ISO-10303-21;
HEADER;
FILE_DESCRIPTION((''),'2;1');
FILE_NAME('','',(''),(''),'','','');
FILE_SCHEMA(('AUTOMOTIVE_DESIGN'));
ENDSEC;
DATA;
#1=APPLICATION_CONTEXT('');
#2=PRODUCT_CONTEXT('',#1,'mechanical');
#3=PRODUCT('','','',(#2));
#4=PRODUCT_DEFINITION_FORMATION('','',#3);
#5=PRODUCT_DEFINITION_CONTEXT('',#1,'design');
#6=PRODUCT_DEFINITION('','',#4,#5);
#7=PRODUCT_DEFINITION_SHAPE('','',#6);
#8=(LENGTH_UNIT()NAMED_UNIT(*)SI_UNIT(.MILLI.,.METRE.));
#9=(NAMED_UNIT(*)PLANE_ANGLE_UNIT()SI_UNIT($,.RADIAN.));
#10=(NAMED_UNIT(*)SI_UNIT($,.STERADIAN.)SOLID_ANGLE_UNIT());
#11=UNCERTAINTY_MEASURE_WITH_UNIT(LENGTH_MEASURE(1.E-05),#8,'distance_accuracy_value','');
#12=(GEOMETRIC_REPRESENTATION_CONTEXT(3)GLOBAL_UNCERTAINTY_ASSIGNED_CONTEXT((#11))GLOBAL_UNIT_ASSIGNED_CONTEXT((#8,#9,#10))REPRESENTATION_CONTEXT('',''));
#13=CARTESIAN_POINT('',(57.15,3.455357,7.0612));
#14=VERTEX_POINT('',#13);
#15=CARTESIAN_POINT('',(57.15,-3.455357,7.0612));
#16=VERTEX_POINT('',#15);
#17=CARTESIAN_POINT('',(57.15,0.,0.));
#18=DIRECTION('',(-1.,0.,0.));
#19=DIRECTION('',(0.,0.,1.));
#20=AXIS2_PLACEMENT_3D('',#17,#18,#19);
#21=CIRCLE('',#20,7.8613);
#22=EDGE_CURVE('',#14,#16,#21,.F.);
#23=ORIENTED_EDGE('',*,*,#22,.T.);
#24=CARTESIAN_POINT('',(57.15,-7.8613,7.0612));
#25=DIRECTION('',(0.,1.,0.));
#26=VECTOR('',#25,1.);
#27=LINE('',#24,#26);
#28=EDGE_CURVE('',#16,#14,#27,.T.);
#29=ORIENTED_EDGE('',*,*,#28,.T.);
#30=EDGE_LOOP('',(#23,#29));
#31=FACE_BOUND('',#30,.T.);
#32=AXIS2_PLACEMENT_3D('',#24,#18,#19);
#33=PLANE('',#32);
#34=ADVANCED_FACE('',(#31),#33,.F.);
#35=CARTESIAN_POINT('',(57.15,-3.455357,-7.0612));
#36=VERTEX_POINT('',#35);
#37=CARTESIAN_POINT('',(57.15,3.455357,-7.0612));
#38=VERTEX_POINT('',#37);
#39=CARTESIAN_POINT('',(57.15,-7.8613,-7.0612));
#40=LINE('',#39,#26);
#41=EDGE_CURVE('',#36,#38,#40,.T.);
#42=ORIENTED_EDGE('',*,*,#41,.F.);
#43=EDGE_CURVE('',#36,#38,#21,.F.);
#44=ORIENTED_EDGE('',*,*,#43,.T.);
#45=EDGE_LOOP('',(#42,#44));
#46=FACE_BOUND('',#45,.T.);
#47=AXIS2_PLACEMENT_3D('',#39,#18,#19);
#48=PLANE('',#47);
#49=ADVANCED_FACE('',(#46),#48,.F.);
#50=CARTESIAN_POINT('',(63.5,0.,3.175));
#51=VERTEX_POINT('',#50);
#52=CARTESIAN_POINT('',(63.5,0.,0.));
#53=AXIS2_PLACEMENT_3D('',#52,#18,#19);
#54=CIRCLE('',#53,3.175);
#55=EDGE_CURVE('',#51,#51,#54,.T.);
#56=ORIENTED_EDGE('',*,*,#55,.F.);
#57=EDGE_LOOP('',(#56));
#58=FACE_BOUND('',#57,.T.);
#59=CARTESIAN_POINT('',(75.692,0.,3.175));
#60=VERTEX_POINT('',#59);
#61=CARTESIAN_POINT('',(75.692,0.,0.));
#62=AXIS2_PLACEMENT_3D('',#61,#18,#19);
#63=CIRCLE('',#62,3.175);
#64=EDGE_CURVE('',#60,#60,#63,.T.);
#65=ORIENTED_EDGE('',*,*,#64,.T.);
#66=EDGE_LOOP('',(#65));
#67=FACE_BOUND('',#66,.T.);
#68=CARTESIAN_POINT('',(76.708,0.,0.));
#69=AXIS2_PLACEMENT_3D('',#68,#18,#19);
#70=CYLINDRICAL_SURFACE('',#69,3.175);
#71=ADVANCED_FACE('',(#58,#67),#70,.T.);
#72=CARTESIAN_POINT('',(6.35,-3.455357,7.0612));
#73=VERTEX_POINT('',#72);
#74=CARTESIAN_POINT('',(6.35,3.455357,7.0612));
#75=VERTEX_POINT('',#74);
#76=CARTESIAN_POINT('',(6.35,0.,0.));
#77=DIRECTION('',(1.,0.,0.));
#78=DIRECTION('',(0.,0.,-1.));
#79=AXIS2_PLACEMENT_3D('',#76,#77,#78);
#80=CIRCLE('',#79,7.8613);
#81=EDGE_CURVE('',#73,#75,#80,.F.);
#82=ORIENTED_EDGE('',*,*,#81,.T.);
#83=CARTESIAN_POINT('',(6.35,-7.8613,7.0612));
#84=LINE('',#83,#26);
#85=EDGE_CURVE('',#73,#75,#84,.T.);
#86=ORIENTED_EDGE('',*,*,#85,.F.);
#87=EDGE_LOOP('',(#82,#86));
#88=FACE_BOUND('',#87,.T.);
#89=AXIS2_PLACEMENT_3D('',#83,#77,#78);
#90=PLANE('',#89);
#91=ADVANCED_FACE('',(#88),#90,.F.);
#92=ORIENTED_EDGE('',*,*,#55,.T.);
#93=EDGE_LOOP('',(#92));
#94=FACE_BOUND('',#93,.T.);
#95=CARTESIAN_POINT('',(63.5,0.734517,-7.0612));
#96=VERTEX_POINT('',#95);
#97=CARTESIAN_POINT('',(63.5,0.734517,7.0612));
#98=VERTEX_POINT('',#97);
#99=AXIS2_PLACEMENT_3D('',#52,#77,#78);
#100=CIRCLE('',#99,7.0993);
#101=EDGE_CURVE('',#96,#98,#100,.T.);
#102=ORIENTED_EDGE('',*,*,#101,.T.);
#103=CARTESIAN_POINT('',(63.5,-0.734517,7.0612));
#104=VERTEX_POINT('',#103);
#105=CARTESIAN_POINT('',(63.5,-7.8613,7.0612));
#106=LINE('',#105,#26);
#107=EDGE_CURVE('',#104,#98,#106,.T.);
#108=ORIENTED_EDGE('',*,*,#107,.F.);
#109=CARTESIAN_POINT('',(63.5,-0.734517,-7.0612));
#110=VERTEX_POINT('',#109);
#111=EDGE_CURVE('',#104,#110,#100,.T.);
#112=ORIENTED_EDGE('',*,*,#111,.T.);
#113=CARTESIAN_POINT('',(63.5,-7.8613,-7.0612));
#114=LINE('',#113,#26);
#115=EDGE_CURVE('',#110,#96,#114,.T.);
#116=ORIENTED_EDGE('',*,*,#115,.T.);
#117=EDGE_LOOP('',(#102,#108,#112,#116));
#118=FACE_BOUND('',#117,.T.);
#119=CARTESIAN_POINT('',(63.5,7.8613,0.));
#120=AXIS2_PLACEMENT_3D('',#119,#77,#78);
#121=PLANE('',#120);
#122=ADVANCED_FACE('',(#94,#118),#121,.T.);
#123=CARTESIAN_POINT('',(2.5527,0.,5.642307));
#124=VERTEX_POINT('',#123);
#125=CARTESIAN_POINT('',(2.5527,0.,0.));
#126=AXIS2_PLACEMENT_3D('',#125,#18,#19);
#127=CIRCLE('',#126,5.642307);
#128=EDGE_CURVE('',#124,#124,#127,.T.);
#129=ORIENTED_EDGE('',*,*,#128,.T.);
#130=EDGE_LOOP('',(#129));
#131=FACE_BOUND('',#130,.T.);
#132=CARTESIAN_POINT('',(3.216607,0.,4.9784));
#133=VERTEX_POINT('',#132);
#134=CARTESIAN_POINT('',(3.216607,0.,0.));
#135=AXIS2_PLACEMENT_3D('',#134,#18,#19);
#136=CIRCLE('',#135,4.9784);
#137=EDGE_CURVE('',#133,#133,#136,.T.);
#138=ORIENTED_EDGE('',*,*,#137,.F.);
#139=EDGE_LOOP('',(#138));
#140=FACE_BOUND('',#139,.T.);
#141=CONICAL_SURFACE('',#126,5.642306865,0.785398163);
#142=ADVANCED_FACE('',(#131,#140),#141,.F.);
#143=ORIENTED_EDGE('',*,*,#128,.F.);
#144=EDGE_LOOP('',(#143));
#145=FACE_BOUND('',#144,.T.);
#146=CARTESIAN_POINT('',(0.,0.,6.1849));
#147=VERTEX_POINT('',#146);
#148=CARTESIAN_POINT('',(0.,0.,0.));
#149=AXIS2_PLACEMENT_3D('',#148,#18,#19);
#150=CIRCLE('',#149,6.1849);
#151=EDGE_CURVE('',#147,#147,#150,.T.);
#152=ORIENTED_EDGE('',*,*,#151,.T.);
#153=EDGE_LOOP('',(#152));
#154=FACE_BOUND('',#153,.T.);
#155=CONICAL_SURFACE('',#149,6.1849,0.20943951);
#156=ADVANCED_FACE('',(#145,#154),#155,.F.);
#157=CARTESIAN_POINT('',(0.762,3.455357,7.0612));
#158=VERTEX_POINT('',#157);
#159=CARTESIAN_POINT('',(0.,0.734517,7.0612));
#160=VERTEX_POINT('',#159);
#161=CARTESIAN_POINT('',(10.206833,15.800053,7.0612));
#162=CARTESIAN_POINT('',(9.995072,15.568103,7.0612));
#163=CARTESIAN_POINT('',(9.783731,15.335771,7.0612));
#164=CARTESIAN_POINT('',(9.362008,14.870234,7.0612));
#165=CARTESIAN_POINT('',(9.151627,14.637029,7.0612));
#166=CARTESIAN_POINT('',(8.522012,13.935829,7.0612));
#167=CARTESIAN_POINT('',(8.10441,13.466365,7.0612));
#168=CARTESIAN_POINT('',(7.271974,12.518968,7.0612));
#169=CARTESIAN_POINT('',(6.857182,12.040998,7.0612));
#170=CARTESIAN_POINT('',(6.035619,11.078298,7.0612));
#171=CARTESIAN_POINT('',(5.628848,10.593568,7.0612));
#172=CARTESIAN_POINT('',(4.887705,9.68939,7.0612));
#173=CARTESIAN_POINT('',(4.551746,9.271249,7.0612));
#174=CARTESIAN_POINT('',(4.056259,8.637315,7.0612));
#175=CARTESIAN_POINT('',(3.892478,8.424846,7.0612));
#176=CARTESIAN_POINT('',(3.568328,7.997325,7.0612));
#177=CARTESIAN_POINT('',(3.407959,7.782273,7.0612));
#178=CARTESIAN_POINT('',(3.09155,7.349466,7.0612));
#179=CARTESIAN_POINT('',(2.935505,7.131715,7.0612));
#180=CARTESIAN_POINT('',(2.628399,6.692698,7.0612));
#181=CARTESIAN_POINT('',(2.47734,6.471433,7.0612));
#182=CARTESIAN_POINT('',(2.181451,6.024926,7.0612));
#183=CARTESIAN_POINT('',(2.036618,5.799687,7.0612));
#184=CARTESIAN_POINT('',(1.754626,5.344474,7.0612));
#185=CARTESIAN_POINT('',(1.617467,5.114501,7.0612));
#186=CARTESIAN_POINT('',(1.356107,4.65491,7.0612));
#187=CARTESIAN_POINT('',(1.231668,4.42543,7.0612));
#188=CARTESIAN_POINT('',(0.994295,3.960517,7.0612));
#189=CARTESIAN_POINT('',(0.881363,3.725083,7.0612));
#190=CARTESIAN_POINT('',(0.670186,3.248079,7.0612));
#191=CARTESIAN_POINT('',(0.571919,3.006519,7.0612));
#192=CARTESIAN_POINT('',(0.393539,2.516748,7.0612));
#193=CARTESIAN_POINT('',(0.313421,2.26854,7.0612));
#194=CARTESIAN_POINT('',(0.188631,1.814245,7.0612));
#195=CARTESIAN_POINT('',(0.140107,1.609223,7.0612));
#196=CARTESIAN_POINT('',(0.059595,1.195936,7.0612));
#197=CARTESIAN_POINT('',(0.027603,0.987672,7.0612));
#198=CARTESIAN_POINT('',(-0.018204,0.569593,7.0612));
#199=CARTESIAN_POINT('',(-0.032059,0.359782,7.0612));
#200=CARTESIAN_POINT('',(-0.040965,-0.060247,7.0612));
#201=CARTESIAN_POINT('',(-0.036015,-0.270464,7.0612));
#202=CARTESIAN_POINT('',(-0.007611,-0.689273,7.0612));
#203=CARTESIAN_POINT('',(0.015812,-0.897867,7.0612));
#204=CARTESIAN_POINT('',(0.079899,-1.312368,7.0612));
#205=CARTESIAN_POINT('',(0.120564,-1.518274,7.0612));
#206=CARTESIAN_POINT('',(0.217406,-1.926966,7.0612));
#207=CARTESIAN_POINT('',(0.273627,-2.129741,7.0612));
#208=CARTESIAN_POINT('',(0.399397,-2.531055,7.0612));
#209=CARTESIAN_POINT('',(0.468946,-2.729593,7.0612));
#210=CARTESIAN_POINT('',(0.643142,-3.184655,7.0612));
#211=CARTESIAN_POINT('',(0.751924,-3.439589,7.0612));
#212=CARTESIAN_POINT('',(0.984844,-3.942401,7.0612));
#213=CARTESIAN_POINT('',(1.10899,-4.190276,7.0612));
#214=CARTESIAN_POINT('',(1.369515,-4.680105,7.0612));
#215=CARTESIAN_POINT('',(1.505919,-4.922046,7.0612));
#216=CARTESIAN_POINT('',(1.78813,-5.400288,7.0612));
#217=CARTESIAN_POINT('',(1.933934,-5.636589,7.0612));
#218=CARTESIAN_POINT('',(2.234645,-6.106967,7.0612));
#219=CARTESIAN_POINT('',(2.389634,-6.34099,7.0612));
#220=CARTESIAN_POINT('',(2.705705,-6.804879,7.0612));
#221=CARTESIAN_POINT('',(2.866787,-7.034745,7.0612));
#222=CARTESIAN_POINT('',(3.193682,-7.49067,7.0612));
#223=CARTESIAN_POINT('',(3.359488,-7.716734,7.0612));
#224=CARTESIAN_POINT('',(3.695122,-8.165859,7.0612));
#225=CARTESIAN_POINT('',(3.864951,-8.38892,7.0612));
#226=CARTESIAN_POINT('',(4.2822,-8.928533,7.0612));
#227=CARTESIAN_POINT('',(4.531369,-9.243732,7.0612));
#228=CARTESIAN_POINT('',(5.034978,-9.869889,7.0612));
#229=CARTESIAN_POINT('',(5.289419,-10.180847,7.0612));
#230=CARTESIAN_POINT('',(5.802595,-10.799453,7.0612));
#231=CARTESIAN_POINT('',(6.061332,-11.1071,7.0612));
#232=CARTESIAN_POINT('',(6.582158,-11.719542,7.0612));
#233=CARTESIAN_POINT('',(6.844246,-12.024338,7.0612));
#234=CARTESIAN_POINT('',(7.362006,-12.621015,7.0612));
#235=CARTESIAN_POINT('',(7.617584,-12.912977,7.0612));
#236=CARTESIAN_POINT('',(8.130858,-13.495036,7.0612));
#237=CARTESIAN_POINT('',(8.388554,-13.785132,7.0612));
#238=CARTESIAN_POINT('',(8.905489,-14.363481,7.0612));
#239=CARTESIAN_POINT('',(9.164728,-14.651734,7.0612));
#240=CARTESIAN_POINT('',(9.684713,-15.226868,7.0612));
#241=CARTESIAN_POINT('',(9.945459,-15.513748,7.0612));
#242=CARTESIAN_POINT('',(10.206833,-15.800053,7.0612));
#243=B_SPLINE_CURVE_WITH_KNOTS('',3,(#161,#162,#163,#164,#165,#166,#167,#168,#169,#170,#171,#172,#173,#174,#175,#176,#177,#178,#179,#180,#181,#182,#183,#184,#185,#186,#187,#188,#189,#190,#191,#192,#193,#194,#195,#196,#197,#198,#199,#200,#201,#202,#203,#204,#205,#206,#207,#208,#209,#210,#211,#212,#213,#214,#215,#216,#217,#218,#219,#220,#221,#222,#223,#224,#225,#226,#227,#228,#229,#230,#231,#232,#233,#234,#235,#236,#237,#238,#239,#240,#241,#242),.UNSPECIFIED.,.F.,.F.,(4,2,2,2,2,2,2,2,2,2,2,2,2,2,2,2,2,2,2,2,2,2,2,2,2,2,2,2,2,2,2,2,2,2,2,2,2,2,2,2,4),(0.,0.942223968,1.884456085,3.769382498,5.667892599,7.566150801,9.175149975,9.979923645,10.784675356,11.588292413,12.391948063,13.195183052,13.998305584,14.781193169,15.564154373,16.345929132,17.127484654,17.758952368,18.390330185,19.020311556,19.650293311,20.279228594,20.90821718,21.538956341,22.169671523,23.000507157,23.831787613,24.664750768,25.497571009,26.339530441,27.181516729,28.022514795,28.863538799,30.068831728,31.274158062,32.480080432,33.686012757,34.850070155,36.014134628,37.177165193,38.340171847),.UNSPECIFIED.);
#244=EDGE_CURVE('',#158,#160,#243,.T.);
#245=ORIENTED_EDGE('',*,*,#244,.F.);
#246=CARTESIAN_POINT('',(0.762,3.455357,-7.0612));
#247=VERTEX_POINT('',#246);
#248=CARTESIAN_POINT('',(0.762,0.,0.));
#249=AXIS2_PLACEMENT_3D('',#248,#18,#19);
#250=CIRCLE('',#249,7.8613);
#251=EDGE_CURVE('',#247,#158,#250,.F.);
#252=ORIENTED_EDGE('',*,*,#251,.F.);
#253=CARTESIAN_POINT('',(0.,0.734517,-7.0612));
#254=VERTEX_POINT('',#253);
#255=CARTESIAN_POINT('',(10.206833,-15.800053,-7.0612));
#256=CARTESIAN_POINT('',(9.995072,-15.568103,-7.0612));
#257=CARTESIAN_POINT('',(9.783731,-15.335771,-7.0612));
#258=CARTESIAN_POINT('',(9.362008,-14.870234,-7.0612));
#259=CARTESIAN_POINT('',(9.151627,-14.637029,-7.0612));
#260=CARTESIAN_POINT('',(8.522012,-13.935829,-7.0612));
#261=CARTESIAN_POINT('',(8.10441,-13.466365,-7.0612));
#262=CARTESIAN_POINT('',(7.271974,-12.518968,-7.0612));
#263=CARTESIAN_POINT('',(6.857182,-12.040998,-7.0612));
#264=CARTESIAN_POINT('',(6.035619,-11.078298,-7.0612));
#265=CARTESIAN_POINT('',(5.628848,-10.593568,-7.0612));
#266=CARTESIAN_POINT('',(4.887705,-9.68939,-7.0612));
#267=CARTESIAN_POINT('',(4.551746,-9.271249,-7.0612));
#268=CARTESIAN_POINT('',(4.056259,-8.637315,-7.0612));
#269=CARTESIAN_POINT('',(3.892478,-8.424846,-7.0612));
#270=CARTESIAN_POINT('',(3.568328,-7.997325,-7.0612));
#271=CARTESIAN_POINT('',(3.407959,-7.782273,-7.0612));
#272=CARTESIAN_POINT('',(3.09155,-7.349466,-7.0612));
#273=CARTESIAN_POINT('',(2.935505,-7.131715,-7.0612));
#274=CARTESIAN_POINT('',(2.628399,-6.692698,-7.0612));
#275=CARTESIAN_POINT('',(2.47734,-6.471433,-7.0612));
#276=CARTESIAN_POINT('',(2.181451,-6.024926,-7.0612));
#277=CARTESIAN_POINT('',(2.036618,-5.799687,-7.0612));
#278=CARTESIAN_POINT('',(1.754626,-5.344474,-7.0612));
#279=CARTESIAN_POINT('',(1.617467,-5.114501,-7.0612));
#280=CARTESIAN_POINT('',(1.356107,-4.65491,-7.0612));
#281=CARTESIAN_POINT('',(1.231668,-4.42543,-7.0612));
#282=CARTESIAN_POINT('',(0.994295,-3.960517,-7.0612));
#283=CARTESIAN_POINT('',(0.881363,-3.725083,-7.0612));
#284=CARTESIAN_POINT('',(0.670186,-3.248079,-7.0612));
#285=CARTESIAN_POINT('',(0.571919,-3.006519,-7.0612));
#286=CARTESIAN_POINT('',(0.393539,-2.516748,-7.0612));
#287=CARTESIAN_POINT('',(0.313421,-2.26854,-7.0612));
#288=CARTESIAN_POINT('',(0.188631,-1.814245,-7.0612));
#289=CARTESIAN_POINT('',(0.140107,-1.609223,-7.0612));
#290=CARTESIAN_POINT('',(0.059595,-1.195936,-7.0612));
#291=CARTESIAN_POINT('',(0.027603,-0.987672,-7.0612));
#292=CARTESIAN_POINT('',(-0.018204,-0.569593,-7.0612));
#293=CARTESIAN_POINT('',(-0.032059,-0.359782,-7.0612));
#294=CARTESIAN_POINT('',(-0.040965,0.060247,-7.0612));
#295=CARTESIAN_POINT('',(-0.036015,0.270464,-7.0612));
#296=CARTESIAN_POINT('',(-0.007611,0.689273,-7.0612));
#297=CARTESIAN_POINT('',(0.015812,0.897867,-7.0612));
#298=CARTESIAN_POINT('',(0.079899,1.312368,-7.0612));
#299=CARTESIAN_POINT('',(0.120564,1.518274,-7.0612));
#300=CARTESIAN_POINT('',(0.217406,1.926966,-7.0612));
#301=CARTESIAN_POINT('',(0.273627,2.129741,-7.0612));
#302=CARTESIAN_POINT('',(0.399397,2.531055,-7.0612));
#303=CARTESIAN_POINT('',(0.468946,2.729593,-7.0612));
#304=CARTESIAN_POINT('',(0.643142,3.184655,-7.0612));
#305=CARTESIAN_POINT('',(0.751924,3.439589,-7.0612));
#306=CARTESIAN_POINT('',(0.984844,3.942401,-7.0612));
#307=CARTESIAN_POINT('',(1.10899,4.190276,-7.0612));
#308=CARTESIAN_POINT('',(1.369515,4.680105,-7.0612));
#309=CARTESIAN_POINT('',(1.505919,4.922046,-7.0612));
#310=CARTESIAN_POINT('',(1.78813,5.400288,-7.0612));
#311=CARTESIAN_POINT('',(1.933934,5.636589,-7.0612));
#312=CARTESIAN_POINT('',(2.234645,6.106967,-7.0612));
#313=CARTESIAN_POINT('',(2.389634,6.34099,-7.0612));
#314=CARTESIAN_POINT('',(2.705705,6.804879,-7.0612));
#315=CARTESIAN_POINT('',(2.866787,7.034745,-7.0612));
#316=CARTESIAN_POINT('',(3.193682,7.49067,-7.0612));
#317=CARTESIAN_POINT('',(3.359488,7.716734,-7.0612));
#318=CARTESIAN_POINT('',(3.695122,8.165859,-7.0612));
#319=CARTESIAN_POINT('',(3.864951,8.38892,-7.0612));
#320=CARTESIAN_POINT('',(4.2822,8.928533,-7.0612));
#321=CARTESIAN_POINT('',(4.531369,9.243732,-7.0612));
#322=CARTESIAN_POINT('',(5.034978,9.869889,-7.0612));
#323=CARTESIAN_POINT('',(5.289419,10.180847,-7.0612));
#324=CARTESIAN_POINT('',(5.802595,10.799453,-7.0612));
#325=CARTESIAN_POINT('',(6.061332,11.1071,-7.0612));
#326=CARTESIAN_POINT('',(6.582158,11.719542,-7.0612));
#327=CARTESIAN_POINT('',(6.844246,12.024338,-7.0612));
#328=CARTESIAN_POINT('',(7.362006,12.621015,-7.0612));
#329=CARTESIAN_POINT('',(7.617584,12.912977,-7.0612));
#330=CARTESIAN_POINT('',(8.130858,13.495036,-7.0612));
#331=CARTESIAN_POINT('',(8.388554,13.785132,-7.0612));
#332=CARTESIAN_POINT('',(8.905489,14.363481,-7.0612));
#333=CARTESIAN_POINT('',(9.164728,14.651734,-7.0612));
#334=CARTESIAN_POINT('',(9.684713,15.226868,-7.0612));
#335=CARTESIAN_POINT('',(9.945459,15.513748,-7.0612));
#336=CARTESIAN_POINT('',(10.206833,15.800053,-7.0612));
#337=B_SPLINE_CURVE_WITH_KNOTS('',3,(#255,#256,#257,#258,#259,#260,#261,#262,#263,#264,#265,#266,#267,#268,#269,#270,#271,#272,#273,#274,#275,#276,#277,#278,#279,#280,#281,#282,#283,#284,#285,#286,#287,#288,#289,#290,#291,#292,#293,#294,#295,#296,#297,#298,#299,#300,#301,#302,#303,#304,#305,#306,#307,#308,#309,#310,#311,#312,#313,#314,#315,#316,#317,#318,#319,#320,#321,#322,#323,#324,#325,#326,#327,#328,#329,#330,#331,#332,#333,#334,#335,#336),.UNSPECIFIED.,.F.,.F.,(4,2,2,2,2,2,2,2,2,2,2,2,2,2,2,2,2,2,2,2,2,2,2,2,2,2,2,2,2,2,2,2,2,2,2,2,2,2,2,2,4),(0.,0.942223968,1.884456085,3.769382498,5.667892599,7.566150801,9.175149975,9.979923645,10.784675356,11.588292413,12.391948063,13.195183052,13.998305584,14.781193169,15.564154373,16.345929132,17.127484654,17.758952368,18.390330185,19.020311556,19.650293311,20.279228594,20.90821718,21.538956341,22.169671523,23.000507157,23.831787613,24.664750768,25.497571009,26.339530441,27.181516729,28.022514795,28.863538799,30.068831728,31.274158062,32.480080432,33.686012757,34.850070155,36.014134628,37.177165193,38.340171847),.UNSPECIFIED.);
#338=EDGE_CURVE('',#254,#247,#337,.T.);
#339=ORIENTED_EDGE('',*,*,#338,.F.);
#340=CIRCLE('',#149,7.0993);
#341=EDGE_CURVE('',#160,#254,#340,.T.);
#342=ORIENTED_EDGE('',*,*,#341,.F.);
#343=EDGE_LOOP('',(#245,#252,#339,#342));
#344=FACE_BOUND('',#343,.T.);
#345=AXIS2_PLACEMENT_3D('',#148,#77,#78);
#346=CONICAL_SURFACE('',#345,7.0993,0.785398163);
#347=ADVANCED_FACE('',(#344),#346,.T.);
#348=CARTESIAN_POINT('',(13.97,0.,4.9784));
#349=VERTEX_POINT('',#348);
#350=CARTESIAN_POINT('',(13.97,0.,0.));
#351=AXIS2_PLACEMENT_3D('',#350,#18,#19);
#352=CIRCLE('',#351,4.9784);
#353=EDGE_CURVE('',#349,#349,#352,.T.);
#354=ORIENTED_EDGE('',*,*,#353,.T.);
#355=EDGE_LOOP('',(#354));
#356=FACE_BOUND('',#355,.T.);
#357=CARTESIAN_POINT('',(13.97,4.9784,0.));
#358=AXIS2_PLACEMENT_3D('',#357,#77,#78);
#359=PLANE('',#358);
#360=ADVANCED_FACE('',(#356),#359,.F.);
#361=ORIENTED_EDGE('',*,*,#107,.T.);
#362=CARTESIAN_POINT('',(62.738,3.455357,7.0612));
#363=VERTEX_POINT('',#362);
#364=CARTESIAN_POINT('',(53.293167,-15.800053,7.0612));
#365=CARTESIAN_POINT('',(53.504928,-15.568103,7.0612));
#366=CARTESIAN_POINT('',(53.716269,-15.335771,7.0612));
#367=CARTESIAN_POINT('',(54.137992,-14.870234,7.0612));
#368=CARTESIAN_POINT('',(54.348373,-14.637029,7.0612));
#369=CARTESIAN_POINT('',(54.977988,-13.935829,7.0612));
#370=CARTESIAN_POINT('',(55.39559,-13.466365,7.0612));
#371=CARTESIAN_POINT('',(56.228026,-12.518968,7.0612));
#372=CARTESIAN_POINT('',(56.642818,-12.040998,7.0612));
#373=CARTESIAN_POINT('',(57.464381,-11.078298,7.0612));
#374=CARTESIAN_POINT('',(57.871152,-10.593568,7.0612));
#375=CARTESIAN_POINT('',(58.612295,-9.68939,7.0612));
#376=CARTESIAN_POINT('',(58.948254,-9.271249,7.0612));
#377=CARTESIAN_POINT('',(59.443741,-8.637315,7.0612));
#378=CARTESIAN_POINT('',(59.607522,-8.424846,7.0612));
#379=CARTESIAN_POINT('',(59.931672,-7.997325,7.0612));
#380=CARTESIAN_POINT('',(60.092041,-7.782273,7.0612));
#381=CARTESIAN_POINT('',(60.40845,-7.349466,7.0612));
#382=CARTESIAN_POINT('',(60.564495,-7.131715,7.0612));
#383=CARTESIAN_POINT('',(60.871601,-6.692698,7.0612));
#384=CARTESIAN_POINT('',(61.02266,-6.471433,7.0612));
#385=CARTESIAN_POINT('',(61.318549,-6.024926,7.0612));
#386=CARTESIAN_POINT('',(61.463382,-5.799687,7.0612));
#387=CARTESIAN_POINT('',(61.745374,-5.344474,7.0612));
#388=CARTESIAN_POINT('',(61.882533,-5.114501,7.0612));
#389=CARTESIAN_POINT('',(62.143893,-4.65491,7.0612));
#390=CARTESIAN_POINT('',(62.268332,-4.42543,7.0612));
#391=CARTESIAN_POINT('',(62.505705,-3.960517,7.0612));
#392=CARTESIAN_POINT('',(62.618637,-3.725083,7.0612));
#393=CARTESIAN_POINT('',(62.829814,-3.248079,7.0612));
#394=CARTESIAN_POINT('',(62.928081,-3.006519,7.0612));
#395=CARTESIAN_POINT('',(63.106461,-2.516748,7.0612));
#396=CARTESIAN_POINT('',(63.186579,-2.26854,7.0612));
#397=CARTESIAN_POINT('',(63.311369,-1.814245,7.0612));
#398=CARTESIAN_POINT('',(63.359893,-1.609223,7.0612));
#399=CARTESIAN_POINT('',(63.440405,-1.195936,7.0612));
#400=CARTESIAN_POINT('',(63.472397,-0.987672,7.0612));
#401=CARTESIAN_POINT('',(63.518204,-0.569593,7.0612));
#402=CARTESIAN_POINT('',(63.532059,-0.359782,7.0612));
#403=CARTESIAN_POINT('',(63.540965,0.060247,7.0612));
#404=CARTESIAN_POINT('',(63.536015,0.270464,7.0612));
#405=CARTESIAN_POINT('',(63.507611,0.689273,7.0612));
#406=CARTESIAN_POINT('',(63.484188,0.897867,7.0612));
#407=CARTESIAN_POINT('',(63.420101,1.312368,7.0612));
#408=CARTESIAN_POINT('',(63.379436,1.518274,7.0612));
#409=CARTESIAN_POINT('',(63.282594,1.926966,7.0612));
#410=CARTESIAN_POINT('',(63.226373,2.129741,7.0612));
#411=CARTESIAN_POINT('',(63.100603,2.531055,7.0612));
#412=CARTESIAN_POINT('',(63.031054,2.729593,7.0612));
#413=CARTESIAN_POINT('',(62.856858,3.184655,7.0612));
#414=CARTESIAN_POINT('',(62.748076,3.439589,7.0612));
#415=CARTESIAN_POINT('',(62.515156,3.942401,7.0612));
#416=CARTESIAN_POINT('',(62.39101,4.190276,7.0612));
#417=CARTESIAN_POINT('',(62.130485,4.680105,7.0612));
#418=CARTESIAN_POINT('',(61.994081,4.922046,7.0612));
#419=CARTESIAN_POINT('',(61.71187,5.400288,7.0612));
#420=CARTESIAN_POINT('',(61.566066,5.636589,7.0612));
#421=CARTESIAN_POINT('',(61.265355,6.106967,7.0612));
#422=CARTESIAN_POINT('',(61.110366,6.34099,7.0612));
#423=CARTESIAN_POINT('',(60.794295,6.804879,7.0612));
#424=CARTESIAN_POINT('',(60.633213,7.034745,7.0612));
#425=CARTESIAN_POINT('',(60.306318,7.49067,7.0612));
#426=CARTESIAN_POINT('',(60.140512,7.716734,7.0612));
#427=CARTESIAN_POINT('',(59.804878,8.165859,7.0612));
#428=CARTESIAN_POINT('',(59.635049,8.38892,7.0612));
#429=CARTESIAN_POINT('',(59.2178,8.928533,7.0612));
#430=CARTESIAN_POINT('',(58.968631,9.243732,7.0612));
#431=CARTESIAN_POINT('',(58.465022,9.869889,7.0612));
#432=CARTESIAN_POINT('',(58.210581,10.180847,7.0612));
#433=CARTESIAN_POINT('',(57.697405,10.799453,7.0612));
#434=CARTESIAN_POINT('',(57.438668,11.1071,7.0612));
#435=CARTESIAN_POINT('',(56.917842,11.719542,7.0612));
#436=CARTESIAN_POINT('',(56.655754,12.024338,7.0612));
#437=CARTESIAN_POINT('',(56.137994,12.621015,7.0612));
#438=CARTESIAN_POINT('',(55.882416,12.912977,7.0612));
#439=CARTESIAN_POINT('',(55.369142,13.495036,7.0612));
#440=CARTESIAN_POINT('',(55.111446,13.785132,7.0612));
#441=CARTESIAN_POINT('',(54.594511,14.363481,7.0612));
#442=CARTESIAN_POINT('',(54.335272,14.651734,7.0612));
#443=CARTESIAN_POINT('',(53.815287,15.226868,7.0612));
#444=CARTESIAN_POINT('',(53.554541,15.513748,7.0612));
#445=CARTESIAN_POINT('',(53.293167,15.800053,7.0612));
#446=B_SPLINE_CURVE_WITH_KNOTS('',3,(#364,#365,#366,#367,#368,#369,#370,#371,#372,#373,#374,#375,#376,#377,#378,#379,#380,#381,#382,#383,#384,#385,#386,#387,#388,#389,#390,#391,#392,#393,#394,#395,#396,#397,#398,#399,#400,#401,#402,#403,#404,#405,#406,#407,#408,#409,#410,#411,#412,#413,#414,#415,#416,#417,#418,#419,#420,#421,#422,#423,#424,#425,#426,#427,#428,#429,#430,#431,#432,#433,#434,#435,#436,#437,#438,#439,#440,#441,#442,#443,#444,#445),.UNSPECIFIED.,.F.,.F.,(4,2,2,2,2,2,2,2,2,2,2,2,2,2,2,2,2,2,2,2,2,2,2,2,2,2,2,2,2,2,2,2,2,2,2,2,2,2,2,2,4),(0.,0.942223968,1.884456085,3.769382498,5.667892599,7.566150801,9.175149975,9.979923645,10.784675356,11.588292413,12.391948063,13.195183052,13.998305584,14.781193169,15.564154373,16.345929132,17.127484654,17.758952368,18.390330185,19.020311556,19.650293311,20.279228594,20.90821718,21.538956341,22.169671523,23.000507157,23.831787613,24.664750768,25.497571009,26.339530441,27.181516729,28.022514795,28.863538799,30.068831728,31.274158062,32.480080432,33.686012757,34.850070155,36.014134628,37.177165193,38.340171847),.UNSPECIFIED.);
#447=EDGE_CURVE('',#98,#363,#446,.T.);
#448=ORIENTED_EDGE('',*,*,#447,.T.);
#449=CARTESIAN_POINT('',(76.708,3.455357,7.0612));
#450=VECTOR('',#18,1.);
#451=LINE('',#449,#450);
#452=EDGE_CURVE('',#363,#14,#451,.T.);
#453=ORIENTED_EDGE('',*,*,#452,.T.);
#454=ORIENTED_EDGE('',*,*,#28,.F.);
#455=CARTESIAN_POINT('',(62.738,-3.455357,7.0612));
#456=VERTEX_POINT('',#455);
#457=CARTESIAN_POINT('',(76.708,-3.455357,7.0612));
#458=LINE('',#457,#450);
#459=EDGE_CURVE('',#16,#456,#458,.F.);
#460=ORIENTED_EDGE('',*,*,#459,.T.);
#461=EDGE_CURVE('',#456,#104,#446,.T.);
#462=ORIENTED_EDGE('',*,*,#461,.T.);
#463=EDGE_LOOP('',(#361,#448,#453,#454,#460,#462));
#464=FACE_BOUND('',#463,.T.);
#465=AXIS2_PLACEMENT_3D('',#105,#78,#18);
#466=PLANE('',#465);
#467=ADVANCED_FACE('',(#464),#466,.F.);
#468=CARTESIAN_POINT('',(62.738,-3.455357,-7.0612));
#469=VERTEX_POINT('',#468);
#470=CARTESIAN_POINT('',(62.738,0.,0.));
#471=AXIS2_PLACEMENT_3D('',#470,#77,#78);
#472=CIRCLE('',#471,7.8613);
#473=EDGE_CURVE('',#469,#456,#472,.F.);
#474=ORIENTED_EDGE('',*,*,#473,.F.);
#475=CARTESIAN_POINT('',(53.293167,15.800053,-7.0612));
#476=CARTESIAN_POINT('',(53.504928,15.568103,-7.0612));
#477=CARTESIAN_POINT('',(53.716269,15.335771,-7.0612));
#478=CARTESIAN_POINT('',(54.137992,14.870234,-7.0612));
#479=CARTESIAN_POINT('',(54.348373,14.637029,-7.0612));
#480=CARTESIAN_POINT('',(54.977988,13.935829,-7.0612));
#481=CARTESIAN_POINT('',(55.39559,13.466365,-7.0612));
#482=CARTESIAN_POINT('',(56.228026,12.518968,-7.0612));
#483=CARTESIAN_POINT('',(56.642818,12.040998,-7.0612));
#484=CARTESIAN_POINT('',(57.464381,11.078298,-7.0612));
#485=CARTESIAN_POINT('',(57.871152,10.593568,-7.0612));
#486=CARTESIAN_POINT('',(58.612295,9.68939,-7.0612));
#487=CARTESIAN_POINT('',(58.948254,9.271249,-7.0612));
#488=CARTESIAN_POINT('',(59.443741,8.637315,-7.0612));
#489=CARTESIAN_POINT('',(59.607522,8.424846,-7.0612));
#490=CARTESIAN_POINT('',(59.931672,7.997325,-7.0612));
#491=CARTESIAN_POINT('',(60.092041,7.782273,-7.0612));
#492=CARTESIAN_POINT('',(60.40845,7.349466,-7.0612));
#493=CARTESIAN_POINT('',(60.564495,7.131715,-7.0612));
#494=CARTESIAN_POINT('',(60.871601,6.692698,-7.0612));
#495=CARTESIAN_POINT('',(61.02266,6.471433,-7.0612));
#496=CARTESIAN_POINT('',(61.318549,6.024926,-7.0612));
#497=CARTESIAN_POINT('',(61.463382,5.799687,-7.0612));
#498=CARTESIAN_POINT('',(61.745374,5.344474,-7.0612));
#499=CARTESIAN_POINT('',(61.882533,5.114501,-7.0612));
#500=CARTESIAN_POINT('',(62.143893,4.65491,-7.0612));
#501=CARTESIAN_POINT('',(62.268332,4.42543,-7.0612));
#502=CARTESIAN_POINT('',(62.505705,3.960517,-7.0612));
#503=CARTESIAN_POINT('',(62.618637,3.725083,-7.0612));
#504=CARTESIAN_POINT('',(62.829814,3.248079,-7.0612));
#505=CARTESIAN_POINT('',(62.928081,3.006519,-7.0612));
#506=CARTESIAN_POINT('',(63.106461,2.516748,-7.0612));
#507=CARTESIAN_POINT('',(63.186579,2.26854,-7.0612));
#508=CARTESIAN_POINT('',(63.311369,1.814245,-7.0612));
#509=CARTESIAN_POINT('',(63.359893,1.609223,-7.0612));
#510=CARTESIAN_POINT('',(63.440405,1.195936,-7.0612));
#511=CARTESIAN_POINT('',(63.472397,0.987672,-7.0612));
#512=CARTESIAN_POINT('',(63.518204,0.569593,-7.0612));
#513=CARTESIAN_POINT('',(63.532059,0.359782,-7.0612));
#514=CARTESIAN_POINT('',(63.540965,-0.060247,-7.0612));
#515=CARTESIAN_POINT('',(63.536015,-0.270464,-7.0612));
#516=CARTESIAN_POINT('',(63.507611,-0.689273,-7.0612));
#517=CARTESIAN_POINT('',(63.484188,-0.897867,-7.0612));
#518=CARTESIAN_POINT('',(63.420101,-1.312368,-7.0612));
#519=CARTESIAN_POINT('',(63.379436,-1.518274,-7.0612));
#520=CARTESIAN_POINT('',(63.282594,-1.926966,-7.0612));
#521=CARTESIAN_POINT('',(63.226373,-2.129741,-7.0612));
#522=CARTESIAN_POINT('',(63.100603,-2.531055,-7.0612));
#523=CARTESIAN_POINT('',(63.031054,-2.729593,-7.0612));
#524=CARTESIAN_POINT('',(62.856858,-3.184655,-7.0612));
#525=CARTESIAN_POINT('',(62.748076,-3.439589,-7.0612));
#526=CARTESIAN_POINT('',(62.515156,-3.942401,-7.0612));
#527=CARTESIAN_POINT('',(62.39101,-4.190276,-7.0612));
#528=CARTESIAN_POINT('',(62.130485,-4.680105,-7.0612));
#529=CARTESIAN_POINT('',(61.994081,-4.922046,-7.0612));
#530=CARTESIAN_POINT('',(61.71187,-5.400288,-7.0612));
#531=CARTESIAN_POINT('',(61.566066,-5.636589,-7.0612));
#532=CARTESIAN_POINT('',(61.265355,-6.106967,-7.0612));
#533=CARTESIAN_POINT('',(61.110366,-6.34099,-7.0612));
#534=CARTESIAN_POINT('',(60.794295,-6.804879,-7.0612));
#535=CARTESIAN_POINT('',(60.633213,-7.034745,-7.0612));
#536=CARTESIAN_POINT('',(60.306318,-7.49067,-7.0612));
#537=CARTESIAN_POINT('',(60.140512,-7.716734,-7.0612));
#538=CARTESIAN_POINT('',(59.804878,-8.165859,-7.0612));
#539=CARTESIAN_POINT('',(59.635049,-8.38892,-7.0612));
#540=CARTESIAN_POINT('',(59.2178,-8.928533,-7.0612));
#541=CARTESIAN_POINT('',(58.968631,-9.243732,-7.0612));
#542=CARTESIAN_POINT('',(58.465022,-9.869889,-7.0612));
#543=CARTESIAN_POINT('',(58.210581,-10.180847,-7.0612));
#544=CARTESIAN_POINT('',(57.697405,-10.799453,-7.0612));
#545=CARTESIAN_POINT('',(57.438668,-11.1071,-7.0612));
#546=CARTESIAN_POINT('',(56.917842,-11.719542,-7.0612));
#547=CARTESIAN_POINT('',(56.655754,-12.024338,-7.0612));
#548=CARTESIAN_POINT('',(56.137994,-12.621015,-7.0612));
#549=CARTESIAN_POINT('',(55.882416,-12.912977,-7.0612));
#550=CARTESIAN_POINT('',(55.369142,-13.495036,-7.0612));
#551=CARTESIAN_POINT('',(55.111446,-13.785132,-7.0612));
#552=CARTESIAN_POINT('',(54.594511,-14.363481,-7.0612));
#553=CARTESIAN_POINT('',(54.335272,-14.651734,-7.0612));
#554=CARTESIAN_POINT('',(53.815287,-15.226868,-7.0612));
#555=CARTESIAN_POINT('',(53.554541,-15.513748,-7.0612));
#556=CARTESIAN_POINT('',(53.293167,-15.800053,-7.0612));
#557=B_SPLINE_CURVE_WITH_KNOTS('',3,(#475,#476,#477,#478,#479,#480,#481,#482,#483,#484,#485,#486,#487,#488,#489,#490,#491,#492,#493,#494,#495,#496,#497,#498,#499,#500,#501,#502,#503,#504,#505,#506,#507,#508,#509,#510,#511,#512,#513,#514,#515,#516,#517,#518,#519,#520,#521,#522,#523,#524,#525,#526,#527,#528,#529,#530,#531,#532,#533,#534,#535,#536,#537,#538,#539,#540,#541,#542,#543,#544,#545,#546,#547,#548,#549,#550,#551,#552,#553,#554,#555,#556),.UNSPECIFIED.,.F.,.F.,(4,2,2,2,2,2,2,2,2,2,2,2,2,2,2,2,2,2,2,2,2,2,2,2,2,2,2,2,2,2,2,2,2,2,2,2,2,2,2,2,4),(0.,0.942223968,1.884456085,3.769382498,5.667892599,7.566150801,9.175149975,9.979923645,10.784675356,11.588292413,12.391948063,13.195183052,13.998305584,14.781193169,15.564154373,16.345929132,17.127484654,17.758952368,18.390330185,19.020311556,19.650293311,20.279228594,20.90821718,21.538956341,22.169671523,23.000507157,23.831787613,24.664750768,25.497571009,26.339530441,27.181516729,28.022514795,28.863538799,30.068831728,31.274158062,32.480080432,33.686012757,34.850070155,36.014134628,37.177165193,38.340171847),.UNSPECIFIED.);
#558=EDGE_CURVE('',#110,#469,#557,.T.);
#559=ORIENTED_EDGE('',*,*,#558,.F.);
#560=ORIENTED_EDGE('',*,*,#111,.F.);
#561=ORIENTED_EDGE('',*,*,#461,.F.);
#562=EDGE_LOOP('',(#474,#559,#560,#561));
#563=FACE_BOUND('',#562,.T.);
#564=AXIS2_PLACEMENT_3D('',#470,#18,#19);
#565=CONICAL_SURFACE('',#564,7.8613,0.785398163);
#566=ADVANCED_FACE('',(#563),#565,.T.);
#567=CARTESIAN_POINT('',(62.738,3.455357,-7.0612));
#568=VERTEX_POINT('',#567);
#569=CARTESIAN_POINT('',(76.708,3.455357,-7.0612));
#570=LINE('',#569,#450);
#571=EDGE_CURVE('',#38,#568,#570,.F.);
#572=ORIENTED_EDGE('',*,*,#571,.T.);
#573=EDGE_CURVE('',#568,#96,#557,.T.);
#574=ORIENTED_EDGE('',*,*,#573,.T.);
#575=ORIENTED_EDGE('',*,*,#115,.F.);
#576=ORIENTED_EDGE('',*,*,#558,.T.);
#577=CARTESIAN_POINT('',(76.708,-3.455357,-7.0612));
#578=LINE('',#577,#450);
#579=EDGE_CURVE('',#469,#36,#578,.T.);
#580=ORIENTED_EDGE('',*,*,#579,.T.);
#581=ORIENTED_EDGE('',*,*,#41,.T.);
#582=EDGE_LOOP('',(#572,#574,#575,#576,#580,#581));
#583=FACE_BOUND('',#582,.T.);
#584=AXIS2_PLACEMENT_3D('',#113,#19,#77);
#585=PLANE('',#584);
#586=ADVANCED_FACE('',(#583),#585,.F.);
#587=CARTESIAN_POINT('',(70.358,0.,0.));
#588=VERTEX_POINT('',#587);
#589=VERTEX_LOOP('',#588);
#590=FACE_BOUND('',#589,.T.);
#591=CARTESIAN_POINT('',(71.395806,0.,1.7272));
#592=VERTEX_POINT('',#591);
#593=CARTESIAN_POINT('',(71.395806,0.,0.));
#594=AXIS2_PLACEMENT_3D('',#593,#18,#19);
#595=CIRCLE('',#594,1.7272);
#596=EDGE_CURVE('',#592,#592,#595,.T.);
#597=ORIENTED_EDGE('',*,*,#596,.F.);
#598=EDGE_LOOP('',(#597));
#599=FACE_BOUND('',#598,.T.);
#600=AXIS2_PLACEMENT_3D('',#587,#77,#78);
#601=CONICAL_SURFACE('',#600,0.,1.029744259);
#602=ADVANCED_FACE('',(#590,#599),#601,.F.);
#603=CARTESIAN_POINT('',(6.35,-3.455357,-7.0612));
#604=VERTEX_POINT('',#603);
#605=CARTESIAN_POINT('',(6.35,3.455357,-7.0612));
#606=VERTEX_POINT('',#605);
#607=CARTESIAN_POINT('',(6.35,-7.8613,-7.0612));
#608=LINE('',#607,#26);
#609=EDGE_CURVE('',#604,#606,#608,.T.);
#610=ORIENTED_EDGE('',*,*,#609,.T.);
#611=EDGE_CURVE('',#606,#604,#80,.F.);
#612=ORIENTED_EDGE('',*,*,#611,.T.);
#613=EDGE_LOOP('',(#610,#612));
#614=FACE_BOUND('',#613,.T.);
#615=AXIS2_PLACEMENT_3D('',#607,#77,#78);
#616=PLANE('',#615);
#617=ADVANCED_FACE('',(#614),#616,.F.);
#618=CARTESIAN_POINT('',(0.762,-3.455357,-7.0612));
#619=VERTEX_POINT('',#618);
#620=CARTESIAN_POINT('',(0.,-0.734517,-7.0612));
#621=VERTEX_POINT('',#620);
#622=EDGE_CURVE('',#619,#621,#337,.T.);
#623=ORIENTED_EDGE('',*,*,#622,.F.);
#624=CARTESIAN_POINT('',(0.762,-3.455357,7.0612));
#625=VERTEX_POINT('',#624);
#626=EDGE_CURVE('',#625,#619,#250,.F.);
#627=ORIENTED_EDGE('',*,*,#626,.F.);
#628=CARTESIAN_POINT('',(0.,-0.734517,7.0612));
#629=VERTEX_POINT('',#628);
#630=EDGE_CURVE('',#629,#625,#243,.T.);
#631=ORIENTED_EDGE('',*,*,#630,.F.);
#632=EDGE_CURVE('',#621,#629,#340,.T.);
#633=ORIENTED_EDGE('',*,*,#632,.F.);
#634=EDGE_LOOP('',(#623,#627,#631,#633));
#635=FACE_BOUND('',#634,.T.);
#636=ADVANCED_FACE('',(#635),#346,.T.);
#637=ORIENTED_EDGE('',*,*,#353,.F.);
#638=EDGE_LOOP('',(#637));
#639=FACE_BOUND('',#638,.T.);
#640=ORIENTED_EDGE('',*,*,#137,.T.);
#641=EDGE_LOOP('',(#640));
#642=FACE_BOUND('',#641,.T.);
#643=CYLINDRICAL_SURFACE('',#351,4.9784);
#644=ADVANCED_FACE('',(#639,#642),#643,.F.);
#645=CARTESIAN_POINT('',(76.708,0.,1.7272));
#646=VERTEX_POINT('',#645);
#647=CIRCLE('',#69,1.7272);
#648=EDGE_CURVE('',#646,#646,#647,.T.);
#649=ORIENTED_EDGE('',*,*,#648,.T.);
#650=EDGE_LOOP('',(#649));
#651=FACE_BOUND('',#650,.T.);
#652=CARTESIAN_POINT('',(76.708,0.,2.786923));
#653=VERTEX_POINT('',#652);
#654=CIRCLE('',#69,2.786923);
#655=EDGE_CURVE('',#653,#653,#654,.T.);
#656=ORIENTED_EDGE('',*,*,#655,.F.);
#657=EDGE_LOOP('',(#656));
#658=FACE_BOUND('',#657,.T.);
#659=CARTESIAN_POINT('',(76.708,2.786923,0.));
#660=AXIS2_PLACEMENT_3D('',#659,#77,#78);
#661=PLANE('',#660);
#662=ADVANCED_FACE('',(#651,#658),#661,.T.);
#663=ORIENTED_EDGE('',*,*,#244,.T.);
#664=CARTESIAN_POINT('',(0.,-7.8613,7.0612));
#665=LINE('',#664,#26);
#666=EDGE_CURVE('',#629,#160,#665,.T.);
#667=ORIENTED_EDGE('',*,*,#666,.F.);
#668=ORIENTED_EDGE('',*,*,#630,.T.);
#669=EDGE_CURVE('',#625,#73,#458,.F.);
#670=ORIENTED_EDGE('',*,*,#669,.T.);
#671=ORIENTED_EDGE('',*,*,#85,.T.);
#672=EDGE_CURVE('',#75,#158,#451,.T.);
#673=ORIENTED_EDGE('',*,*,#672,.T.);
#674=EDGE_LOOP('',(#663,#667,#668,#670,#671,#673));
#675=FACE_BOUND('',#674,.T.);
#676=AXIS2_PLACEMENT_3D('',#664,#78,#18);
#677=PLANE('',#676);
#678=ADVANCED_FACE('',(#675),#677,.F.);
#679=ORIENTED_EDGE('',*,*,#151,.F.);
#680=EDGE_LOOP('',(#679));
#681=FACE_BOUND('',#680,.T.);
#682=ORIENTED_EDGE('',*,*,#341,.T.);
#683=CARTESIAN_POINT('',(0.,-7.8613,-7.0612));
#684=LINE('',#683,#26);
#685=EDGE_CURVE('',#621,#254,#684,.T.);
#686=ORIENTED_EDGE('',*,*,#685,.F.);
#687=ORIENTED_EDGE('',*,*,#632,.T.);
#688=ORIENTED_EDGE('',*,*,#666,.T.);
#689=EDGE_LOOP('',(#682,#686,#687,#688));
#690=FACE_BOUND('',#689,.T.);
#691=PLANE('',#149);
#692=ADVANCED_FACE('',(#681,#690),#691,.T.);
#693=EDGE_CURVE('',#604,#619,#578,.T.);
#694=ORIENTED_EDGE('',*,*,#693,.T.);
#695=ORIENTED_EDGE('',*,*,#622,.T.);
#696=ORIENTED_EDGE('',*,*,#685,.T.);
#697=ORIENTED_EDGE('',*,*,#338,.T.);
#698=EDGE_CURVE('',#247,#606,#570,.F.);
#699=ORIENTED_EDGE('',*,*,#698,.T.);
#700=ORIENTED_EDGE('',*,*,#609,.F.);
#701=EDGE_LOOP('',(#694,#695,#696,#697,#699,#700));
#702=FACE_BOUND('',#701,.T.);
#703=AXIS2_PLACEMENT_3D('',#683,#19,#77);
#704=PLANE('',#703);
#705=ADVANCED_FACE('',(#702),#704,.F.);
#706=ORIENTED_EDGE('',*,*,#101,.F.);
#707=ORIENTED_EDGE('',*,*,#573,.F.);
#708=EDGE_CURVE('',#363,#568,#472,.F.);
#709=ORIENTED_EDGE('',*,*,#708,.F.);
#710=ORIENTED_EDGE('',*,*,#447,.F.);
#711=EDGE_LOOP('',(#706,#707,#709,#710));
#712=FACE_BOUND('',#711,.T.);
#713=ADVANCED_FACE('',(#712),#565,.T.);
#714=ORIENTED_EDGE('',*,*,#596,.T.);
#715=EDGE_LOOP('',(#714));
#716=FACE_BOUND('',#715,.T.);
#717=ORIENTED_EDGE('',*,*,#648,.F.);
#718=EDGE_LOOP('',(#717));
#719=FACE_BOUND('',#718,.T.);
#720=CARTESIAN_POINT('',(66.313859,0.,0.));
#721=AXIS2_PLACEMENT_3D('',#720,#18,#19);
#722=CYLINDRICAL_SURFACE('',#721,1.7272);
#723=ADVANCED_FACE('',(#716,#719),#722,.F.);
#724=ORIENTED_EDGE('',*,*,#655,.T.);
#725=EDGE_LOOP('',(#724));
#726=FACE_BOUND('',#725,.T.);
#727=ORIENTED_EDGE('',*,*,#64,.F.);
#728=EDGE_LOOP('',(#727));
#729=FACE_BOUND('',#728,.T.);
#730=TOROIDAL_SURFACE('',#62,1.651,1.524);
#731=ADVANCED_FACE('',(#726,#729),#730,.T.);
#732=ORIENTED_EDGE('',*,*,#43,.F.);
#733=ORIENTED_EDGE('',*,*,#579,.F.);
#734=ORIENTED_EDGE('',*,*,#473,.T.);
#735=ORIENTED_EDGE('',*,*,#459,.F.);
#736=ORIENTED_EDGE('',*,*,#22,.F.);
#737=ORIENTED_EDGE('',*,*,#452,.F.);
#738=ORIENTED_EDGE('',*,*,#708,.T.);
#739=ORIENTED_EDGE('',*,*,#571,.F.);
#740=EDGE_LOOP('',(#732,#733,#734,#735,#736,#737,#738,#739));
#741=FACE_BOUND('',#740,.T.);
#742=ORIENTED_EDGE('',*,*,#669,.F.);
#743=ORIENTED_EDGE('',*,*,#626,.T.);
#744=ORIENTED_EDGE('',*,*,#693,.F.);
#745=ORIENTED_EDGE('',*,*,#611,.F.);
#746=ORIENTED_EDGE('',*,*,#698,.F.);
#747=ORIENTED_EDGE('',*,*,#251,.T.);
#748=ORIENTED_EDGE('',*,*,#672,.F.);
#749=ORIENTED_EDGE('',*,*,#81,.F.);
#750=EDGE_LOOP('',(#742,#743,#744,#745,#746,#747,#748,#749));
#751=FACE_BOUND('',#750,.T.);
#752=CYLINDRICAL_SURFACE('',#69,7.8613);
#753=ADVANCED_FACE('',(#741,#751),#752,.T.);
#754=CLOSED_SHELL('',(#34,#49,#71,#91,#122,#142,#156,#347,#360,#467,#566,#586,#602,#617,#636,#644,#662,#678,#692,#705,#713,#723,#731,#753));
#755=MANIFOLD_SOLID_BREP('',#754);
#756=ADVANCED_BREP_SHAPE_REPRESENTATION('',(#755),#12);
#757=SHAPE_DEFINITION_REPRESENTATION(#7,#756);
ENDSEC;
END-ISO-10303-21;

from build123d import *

# Parameters (mm, degrees)
CHAMFER1_SIZE           = 0.762
SKETCH5_W               = 6.35
SKETCH5_H               = 0.8001
CUT_EXTRUDE1_DEPTH      = 8.8613
CUT_EXTRUDE1_DEPTH_BACK = 8.8613
SKETCH6_W               = 6.35
SKETCH6_H               = 0.8001
CUT_EXTRUDE2_DEPTH      = 8.8613
CUT_EXTRUDE2_DEPTH_BACK = 8.8613


with BuildPart() as part:
    # Sketch1 → Revolve1 (revolve)
    with BuildSketch(Plane(origin=(0, 0, 0), x_dir=(-1, 0, 0), z_dir=(0, 0, -1)), mode=Mode.PRIVATE) as revolve1_sk:
        with BuildLine():
            Line((-76.708, 2.786922533), (-76.708, 0))
            Line((-76.708, 0), (0, 0))
            Line((0, 0), (0, 7.8613))
            Line((0, 7.8613), (-63.5, 7.8613))
            Line((-63.5, 7.8613), (-63.5, 3.175))
            Line((-63.5, 3.175), (-75.692, 3.175))
            ThreePointArc((-75.692, 3.175), (-76.235796865, 3.074678675), (-76.708, 2.786922533))
        make_face()
    revolve(revolve1_sk.sketch.rotate(Axis((76.708, 0, 0), (-1, 0, 0)), 270), axis=Axis((76.708, 0, 0), (-1, 0, 0)))  # turned: the seam where the file's is

    # Sketch2 → Cut-Revolve1 (revolve, cut)
    with BuildSketch(Plane(origin=(0, 0, 0), x_dir=(-1, 0, 0), z_dir=(0, 0, -1)), mode=Mode.PRIVATE) as cut_revolve1_sk:
        Polygon((-13.97, 4.9784), (-13.97, 0), (0, 0), (0, 6.1849), (-2.5527, 5.642306865), (-3.216606865, 4.9784), align=None)
    revolve(cut_revolve1_sk.sketch.rotate(Axis((13.97, 0, 0), (-1, 0, 0)), 270), axis=Axis((13.97, 0, 0), (-1, 0, 0)), mode=Mode.SUBTRACT)  # turned: the seam where the file's is

    # Sketch3 → Cut-Revolve2 (revolve, cut)
    with BuildSketch(Plane(origin=(0, 0, 0), x_dir=(-1, 0, 0), z_dir=(0, 0, -1)), mode=Mode.PRIVATE) as cut_revolve2_sk:
        Polygon((-76.708, 1.7272), (-76.708, 0), (-70.358, 0), (-71.395806461, 1.7272), align=None)
    revolve(cut_revolve2_sk.sketch.rotate(Axis((66.313858967, 0, 0), (-1, 0, 0)), 270), axis=Axis((66.313858967, 0, 0), (-1, 0, 0)), mode=Mode.SUBTRACT)  # turned: the seam where the file's is

    # Chamfer1
    chamfer1_edges = [part.edges().sort_by_distance(p)[0] for p in [
        (63.5, 0, -7.8613),
        (0, 0, -7.8613),
    ]]
    chamfer(chamfer1_edges, length=CHAMFER1_SIZE)

    # Sketch5 → Cut-Extrude1 (cut, two sides)
    with BuildSketch(Plane(origin=(0, 0, 0), x_dir=(1, 0, 0), z_dir=(0, 1, 0))) as cut_extrude1_sk:
        with Locations((3.175, 7.46125)):
            Rectangle(SKETCH5_W, SKETCH5_H)
        with Locations((3.175, -7.46125)):
            Rectangle(SKETCH5_W, SKETCH5_H)
    extrude(amount=CUT_EXTRUDE1_DEPTH, mode=Mode.SUBTRACT)
    extrude(cut_extrude1_sk.sketch, amount=-CUT_EXTRUDE1_DEPTH_BACK, mode=Mode.SUBTRACT)

    # Sketch6 → Cut-Extrude2 (cut, two sides)
    with BuildSketch(Plane(origin=(0, 0, 0), x_dir=(1, 0, 0), z_dir=(0, 1, 0))) as cut_extrude2_sk:
        with Locations((60.325, 7.46125)):
            Rectangle(SKETCH6_W, SKETCH6_H)
        with Locations((60.325, -7.46125)):
            Rectangle(SKETCH6_W, SKETCH6_H)
    extrude(amount=CUT_EXTRUDE2_DEPTH, mode=Mode.SUBTRACT)
    extrude(cut_extrude2_sk.sketch, amount=-CUT_EXTRUDE2_DEPTH_BACK, mode=Mode.SUBTRACT)


solid = part.part
